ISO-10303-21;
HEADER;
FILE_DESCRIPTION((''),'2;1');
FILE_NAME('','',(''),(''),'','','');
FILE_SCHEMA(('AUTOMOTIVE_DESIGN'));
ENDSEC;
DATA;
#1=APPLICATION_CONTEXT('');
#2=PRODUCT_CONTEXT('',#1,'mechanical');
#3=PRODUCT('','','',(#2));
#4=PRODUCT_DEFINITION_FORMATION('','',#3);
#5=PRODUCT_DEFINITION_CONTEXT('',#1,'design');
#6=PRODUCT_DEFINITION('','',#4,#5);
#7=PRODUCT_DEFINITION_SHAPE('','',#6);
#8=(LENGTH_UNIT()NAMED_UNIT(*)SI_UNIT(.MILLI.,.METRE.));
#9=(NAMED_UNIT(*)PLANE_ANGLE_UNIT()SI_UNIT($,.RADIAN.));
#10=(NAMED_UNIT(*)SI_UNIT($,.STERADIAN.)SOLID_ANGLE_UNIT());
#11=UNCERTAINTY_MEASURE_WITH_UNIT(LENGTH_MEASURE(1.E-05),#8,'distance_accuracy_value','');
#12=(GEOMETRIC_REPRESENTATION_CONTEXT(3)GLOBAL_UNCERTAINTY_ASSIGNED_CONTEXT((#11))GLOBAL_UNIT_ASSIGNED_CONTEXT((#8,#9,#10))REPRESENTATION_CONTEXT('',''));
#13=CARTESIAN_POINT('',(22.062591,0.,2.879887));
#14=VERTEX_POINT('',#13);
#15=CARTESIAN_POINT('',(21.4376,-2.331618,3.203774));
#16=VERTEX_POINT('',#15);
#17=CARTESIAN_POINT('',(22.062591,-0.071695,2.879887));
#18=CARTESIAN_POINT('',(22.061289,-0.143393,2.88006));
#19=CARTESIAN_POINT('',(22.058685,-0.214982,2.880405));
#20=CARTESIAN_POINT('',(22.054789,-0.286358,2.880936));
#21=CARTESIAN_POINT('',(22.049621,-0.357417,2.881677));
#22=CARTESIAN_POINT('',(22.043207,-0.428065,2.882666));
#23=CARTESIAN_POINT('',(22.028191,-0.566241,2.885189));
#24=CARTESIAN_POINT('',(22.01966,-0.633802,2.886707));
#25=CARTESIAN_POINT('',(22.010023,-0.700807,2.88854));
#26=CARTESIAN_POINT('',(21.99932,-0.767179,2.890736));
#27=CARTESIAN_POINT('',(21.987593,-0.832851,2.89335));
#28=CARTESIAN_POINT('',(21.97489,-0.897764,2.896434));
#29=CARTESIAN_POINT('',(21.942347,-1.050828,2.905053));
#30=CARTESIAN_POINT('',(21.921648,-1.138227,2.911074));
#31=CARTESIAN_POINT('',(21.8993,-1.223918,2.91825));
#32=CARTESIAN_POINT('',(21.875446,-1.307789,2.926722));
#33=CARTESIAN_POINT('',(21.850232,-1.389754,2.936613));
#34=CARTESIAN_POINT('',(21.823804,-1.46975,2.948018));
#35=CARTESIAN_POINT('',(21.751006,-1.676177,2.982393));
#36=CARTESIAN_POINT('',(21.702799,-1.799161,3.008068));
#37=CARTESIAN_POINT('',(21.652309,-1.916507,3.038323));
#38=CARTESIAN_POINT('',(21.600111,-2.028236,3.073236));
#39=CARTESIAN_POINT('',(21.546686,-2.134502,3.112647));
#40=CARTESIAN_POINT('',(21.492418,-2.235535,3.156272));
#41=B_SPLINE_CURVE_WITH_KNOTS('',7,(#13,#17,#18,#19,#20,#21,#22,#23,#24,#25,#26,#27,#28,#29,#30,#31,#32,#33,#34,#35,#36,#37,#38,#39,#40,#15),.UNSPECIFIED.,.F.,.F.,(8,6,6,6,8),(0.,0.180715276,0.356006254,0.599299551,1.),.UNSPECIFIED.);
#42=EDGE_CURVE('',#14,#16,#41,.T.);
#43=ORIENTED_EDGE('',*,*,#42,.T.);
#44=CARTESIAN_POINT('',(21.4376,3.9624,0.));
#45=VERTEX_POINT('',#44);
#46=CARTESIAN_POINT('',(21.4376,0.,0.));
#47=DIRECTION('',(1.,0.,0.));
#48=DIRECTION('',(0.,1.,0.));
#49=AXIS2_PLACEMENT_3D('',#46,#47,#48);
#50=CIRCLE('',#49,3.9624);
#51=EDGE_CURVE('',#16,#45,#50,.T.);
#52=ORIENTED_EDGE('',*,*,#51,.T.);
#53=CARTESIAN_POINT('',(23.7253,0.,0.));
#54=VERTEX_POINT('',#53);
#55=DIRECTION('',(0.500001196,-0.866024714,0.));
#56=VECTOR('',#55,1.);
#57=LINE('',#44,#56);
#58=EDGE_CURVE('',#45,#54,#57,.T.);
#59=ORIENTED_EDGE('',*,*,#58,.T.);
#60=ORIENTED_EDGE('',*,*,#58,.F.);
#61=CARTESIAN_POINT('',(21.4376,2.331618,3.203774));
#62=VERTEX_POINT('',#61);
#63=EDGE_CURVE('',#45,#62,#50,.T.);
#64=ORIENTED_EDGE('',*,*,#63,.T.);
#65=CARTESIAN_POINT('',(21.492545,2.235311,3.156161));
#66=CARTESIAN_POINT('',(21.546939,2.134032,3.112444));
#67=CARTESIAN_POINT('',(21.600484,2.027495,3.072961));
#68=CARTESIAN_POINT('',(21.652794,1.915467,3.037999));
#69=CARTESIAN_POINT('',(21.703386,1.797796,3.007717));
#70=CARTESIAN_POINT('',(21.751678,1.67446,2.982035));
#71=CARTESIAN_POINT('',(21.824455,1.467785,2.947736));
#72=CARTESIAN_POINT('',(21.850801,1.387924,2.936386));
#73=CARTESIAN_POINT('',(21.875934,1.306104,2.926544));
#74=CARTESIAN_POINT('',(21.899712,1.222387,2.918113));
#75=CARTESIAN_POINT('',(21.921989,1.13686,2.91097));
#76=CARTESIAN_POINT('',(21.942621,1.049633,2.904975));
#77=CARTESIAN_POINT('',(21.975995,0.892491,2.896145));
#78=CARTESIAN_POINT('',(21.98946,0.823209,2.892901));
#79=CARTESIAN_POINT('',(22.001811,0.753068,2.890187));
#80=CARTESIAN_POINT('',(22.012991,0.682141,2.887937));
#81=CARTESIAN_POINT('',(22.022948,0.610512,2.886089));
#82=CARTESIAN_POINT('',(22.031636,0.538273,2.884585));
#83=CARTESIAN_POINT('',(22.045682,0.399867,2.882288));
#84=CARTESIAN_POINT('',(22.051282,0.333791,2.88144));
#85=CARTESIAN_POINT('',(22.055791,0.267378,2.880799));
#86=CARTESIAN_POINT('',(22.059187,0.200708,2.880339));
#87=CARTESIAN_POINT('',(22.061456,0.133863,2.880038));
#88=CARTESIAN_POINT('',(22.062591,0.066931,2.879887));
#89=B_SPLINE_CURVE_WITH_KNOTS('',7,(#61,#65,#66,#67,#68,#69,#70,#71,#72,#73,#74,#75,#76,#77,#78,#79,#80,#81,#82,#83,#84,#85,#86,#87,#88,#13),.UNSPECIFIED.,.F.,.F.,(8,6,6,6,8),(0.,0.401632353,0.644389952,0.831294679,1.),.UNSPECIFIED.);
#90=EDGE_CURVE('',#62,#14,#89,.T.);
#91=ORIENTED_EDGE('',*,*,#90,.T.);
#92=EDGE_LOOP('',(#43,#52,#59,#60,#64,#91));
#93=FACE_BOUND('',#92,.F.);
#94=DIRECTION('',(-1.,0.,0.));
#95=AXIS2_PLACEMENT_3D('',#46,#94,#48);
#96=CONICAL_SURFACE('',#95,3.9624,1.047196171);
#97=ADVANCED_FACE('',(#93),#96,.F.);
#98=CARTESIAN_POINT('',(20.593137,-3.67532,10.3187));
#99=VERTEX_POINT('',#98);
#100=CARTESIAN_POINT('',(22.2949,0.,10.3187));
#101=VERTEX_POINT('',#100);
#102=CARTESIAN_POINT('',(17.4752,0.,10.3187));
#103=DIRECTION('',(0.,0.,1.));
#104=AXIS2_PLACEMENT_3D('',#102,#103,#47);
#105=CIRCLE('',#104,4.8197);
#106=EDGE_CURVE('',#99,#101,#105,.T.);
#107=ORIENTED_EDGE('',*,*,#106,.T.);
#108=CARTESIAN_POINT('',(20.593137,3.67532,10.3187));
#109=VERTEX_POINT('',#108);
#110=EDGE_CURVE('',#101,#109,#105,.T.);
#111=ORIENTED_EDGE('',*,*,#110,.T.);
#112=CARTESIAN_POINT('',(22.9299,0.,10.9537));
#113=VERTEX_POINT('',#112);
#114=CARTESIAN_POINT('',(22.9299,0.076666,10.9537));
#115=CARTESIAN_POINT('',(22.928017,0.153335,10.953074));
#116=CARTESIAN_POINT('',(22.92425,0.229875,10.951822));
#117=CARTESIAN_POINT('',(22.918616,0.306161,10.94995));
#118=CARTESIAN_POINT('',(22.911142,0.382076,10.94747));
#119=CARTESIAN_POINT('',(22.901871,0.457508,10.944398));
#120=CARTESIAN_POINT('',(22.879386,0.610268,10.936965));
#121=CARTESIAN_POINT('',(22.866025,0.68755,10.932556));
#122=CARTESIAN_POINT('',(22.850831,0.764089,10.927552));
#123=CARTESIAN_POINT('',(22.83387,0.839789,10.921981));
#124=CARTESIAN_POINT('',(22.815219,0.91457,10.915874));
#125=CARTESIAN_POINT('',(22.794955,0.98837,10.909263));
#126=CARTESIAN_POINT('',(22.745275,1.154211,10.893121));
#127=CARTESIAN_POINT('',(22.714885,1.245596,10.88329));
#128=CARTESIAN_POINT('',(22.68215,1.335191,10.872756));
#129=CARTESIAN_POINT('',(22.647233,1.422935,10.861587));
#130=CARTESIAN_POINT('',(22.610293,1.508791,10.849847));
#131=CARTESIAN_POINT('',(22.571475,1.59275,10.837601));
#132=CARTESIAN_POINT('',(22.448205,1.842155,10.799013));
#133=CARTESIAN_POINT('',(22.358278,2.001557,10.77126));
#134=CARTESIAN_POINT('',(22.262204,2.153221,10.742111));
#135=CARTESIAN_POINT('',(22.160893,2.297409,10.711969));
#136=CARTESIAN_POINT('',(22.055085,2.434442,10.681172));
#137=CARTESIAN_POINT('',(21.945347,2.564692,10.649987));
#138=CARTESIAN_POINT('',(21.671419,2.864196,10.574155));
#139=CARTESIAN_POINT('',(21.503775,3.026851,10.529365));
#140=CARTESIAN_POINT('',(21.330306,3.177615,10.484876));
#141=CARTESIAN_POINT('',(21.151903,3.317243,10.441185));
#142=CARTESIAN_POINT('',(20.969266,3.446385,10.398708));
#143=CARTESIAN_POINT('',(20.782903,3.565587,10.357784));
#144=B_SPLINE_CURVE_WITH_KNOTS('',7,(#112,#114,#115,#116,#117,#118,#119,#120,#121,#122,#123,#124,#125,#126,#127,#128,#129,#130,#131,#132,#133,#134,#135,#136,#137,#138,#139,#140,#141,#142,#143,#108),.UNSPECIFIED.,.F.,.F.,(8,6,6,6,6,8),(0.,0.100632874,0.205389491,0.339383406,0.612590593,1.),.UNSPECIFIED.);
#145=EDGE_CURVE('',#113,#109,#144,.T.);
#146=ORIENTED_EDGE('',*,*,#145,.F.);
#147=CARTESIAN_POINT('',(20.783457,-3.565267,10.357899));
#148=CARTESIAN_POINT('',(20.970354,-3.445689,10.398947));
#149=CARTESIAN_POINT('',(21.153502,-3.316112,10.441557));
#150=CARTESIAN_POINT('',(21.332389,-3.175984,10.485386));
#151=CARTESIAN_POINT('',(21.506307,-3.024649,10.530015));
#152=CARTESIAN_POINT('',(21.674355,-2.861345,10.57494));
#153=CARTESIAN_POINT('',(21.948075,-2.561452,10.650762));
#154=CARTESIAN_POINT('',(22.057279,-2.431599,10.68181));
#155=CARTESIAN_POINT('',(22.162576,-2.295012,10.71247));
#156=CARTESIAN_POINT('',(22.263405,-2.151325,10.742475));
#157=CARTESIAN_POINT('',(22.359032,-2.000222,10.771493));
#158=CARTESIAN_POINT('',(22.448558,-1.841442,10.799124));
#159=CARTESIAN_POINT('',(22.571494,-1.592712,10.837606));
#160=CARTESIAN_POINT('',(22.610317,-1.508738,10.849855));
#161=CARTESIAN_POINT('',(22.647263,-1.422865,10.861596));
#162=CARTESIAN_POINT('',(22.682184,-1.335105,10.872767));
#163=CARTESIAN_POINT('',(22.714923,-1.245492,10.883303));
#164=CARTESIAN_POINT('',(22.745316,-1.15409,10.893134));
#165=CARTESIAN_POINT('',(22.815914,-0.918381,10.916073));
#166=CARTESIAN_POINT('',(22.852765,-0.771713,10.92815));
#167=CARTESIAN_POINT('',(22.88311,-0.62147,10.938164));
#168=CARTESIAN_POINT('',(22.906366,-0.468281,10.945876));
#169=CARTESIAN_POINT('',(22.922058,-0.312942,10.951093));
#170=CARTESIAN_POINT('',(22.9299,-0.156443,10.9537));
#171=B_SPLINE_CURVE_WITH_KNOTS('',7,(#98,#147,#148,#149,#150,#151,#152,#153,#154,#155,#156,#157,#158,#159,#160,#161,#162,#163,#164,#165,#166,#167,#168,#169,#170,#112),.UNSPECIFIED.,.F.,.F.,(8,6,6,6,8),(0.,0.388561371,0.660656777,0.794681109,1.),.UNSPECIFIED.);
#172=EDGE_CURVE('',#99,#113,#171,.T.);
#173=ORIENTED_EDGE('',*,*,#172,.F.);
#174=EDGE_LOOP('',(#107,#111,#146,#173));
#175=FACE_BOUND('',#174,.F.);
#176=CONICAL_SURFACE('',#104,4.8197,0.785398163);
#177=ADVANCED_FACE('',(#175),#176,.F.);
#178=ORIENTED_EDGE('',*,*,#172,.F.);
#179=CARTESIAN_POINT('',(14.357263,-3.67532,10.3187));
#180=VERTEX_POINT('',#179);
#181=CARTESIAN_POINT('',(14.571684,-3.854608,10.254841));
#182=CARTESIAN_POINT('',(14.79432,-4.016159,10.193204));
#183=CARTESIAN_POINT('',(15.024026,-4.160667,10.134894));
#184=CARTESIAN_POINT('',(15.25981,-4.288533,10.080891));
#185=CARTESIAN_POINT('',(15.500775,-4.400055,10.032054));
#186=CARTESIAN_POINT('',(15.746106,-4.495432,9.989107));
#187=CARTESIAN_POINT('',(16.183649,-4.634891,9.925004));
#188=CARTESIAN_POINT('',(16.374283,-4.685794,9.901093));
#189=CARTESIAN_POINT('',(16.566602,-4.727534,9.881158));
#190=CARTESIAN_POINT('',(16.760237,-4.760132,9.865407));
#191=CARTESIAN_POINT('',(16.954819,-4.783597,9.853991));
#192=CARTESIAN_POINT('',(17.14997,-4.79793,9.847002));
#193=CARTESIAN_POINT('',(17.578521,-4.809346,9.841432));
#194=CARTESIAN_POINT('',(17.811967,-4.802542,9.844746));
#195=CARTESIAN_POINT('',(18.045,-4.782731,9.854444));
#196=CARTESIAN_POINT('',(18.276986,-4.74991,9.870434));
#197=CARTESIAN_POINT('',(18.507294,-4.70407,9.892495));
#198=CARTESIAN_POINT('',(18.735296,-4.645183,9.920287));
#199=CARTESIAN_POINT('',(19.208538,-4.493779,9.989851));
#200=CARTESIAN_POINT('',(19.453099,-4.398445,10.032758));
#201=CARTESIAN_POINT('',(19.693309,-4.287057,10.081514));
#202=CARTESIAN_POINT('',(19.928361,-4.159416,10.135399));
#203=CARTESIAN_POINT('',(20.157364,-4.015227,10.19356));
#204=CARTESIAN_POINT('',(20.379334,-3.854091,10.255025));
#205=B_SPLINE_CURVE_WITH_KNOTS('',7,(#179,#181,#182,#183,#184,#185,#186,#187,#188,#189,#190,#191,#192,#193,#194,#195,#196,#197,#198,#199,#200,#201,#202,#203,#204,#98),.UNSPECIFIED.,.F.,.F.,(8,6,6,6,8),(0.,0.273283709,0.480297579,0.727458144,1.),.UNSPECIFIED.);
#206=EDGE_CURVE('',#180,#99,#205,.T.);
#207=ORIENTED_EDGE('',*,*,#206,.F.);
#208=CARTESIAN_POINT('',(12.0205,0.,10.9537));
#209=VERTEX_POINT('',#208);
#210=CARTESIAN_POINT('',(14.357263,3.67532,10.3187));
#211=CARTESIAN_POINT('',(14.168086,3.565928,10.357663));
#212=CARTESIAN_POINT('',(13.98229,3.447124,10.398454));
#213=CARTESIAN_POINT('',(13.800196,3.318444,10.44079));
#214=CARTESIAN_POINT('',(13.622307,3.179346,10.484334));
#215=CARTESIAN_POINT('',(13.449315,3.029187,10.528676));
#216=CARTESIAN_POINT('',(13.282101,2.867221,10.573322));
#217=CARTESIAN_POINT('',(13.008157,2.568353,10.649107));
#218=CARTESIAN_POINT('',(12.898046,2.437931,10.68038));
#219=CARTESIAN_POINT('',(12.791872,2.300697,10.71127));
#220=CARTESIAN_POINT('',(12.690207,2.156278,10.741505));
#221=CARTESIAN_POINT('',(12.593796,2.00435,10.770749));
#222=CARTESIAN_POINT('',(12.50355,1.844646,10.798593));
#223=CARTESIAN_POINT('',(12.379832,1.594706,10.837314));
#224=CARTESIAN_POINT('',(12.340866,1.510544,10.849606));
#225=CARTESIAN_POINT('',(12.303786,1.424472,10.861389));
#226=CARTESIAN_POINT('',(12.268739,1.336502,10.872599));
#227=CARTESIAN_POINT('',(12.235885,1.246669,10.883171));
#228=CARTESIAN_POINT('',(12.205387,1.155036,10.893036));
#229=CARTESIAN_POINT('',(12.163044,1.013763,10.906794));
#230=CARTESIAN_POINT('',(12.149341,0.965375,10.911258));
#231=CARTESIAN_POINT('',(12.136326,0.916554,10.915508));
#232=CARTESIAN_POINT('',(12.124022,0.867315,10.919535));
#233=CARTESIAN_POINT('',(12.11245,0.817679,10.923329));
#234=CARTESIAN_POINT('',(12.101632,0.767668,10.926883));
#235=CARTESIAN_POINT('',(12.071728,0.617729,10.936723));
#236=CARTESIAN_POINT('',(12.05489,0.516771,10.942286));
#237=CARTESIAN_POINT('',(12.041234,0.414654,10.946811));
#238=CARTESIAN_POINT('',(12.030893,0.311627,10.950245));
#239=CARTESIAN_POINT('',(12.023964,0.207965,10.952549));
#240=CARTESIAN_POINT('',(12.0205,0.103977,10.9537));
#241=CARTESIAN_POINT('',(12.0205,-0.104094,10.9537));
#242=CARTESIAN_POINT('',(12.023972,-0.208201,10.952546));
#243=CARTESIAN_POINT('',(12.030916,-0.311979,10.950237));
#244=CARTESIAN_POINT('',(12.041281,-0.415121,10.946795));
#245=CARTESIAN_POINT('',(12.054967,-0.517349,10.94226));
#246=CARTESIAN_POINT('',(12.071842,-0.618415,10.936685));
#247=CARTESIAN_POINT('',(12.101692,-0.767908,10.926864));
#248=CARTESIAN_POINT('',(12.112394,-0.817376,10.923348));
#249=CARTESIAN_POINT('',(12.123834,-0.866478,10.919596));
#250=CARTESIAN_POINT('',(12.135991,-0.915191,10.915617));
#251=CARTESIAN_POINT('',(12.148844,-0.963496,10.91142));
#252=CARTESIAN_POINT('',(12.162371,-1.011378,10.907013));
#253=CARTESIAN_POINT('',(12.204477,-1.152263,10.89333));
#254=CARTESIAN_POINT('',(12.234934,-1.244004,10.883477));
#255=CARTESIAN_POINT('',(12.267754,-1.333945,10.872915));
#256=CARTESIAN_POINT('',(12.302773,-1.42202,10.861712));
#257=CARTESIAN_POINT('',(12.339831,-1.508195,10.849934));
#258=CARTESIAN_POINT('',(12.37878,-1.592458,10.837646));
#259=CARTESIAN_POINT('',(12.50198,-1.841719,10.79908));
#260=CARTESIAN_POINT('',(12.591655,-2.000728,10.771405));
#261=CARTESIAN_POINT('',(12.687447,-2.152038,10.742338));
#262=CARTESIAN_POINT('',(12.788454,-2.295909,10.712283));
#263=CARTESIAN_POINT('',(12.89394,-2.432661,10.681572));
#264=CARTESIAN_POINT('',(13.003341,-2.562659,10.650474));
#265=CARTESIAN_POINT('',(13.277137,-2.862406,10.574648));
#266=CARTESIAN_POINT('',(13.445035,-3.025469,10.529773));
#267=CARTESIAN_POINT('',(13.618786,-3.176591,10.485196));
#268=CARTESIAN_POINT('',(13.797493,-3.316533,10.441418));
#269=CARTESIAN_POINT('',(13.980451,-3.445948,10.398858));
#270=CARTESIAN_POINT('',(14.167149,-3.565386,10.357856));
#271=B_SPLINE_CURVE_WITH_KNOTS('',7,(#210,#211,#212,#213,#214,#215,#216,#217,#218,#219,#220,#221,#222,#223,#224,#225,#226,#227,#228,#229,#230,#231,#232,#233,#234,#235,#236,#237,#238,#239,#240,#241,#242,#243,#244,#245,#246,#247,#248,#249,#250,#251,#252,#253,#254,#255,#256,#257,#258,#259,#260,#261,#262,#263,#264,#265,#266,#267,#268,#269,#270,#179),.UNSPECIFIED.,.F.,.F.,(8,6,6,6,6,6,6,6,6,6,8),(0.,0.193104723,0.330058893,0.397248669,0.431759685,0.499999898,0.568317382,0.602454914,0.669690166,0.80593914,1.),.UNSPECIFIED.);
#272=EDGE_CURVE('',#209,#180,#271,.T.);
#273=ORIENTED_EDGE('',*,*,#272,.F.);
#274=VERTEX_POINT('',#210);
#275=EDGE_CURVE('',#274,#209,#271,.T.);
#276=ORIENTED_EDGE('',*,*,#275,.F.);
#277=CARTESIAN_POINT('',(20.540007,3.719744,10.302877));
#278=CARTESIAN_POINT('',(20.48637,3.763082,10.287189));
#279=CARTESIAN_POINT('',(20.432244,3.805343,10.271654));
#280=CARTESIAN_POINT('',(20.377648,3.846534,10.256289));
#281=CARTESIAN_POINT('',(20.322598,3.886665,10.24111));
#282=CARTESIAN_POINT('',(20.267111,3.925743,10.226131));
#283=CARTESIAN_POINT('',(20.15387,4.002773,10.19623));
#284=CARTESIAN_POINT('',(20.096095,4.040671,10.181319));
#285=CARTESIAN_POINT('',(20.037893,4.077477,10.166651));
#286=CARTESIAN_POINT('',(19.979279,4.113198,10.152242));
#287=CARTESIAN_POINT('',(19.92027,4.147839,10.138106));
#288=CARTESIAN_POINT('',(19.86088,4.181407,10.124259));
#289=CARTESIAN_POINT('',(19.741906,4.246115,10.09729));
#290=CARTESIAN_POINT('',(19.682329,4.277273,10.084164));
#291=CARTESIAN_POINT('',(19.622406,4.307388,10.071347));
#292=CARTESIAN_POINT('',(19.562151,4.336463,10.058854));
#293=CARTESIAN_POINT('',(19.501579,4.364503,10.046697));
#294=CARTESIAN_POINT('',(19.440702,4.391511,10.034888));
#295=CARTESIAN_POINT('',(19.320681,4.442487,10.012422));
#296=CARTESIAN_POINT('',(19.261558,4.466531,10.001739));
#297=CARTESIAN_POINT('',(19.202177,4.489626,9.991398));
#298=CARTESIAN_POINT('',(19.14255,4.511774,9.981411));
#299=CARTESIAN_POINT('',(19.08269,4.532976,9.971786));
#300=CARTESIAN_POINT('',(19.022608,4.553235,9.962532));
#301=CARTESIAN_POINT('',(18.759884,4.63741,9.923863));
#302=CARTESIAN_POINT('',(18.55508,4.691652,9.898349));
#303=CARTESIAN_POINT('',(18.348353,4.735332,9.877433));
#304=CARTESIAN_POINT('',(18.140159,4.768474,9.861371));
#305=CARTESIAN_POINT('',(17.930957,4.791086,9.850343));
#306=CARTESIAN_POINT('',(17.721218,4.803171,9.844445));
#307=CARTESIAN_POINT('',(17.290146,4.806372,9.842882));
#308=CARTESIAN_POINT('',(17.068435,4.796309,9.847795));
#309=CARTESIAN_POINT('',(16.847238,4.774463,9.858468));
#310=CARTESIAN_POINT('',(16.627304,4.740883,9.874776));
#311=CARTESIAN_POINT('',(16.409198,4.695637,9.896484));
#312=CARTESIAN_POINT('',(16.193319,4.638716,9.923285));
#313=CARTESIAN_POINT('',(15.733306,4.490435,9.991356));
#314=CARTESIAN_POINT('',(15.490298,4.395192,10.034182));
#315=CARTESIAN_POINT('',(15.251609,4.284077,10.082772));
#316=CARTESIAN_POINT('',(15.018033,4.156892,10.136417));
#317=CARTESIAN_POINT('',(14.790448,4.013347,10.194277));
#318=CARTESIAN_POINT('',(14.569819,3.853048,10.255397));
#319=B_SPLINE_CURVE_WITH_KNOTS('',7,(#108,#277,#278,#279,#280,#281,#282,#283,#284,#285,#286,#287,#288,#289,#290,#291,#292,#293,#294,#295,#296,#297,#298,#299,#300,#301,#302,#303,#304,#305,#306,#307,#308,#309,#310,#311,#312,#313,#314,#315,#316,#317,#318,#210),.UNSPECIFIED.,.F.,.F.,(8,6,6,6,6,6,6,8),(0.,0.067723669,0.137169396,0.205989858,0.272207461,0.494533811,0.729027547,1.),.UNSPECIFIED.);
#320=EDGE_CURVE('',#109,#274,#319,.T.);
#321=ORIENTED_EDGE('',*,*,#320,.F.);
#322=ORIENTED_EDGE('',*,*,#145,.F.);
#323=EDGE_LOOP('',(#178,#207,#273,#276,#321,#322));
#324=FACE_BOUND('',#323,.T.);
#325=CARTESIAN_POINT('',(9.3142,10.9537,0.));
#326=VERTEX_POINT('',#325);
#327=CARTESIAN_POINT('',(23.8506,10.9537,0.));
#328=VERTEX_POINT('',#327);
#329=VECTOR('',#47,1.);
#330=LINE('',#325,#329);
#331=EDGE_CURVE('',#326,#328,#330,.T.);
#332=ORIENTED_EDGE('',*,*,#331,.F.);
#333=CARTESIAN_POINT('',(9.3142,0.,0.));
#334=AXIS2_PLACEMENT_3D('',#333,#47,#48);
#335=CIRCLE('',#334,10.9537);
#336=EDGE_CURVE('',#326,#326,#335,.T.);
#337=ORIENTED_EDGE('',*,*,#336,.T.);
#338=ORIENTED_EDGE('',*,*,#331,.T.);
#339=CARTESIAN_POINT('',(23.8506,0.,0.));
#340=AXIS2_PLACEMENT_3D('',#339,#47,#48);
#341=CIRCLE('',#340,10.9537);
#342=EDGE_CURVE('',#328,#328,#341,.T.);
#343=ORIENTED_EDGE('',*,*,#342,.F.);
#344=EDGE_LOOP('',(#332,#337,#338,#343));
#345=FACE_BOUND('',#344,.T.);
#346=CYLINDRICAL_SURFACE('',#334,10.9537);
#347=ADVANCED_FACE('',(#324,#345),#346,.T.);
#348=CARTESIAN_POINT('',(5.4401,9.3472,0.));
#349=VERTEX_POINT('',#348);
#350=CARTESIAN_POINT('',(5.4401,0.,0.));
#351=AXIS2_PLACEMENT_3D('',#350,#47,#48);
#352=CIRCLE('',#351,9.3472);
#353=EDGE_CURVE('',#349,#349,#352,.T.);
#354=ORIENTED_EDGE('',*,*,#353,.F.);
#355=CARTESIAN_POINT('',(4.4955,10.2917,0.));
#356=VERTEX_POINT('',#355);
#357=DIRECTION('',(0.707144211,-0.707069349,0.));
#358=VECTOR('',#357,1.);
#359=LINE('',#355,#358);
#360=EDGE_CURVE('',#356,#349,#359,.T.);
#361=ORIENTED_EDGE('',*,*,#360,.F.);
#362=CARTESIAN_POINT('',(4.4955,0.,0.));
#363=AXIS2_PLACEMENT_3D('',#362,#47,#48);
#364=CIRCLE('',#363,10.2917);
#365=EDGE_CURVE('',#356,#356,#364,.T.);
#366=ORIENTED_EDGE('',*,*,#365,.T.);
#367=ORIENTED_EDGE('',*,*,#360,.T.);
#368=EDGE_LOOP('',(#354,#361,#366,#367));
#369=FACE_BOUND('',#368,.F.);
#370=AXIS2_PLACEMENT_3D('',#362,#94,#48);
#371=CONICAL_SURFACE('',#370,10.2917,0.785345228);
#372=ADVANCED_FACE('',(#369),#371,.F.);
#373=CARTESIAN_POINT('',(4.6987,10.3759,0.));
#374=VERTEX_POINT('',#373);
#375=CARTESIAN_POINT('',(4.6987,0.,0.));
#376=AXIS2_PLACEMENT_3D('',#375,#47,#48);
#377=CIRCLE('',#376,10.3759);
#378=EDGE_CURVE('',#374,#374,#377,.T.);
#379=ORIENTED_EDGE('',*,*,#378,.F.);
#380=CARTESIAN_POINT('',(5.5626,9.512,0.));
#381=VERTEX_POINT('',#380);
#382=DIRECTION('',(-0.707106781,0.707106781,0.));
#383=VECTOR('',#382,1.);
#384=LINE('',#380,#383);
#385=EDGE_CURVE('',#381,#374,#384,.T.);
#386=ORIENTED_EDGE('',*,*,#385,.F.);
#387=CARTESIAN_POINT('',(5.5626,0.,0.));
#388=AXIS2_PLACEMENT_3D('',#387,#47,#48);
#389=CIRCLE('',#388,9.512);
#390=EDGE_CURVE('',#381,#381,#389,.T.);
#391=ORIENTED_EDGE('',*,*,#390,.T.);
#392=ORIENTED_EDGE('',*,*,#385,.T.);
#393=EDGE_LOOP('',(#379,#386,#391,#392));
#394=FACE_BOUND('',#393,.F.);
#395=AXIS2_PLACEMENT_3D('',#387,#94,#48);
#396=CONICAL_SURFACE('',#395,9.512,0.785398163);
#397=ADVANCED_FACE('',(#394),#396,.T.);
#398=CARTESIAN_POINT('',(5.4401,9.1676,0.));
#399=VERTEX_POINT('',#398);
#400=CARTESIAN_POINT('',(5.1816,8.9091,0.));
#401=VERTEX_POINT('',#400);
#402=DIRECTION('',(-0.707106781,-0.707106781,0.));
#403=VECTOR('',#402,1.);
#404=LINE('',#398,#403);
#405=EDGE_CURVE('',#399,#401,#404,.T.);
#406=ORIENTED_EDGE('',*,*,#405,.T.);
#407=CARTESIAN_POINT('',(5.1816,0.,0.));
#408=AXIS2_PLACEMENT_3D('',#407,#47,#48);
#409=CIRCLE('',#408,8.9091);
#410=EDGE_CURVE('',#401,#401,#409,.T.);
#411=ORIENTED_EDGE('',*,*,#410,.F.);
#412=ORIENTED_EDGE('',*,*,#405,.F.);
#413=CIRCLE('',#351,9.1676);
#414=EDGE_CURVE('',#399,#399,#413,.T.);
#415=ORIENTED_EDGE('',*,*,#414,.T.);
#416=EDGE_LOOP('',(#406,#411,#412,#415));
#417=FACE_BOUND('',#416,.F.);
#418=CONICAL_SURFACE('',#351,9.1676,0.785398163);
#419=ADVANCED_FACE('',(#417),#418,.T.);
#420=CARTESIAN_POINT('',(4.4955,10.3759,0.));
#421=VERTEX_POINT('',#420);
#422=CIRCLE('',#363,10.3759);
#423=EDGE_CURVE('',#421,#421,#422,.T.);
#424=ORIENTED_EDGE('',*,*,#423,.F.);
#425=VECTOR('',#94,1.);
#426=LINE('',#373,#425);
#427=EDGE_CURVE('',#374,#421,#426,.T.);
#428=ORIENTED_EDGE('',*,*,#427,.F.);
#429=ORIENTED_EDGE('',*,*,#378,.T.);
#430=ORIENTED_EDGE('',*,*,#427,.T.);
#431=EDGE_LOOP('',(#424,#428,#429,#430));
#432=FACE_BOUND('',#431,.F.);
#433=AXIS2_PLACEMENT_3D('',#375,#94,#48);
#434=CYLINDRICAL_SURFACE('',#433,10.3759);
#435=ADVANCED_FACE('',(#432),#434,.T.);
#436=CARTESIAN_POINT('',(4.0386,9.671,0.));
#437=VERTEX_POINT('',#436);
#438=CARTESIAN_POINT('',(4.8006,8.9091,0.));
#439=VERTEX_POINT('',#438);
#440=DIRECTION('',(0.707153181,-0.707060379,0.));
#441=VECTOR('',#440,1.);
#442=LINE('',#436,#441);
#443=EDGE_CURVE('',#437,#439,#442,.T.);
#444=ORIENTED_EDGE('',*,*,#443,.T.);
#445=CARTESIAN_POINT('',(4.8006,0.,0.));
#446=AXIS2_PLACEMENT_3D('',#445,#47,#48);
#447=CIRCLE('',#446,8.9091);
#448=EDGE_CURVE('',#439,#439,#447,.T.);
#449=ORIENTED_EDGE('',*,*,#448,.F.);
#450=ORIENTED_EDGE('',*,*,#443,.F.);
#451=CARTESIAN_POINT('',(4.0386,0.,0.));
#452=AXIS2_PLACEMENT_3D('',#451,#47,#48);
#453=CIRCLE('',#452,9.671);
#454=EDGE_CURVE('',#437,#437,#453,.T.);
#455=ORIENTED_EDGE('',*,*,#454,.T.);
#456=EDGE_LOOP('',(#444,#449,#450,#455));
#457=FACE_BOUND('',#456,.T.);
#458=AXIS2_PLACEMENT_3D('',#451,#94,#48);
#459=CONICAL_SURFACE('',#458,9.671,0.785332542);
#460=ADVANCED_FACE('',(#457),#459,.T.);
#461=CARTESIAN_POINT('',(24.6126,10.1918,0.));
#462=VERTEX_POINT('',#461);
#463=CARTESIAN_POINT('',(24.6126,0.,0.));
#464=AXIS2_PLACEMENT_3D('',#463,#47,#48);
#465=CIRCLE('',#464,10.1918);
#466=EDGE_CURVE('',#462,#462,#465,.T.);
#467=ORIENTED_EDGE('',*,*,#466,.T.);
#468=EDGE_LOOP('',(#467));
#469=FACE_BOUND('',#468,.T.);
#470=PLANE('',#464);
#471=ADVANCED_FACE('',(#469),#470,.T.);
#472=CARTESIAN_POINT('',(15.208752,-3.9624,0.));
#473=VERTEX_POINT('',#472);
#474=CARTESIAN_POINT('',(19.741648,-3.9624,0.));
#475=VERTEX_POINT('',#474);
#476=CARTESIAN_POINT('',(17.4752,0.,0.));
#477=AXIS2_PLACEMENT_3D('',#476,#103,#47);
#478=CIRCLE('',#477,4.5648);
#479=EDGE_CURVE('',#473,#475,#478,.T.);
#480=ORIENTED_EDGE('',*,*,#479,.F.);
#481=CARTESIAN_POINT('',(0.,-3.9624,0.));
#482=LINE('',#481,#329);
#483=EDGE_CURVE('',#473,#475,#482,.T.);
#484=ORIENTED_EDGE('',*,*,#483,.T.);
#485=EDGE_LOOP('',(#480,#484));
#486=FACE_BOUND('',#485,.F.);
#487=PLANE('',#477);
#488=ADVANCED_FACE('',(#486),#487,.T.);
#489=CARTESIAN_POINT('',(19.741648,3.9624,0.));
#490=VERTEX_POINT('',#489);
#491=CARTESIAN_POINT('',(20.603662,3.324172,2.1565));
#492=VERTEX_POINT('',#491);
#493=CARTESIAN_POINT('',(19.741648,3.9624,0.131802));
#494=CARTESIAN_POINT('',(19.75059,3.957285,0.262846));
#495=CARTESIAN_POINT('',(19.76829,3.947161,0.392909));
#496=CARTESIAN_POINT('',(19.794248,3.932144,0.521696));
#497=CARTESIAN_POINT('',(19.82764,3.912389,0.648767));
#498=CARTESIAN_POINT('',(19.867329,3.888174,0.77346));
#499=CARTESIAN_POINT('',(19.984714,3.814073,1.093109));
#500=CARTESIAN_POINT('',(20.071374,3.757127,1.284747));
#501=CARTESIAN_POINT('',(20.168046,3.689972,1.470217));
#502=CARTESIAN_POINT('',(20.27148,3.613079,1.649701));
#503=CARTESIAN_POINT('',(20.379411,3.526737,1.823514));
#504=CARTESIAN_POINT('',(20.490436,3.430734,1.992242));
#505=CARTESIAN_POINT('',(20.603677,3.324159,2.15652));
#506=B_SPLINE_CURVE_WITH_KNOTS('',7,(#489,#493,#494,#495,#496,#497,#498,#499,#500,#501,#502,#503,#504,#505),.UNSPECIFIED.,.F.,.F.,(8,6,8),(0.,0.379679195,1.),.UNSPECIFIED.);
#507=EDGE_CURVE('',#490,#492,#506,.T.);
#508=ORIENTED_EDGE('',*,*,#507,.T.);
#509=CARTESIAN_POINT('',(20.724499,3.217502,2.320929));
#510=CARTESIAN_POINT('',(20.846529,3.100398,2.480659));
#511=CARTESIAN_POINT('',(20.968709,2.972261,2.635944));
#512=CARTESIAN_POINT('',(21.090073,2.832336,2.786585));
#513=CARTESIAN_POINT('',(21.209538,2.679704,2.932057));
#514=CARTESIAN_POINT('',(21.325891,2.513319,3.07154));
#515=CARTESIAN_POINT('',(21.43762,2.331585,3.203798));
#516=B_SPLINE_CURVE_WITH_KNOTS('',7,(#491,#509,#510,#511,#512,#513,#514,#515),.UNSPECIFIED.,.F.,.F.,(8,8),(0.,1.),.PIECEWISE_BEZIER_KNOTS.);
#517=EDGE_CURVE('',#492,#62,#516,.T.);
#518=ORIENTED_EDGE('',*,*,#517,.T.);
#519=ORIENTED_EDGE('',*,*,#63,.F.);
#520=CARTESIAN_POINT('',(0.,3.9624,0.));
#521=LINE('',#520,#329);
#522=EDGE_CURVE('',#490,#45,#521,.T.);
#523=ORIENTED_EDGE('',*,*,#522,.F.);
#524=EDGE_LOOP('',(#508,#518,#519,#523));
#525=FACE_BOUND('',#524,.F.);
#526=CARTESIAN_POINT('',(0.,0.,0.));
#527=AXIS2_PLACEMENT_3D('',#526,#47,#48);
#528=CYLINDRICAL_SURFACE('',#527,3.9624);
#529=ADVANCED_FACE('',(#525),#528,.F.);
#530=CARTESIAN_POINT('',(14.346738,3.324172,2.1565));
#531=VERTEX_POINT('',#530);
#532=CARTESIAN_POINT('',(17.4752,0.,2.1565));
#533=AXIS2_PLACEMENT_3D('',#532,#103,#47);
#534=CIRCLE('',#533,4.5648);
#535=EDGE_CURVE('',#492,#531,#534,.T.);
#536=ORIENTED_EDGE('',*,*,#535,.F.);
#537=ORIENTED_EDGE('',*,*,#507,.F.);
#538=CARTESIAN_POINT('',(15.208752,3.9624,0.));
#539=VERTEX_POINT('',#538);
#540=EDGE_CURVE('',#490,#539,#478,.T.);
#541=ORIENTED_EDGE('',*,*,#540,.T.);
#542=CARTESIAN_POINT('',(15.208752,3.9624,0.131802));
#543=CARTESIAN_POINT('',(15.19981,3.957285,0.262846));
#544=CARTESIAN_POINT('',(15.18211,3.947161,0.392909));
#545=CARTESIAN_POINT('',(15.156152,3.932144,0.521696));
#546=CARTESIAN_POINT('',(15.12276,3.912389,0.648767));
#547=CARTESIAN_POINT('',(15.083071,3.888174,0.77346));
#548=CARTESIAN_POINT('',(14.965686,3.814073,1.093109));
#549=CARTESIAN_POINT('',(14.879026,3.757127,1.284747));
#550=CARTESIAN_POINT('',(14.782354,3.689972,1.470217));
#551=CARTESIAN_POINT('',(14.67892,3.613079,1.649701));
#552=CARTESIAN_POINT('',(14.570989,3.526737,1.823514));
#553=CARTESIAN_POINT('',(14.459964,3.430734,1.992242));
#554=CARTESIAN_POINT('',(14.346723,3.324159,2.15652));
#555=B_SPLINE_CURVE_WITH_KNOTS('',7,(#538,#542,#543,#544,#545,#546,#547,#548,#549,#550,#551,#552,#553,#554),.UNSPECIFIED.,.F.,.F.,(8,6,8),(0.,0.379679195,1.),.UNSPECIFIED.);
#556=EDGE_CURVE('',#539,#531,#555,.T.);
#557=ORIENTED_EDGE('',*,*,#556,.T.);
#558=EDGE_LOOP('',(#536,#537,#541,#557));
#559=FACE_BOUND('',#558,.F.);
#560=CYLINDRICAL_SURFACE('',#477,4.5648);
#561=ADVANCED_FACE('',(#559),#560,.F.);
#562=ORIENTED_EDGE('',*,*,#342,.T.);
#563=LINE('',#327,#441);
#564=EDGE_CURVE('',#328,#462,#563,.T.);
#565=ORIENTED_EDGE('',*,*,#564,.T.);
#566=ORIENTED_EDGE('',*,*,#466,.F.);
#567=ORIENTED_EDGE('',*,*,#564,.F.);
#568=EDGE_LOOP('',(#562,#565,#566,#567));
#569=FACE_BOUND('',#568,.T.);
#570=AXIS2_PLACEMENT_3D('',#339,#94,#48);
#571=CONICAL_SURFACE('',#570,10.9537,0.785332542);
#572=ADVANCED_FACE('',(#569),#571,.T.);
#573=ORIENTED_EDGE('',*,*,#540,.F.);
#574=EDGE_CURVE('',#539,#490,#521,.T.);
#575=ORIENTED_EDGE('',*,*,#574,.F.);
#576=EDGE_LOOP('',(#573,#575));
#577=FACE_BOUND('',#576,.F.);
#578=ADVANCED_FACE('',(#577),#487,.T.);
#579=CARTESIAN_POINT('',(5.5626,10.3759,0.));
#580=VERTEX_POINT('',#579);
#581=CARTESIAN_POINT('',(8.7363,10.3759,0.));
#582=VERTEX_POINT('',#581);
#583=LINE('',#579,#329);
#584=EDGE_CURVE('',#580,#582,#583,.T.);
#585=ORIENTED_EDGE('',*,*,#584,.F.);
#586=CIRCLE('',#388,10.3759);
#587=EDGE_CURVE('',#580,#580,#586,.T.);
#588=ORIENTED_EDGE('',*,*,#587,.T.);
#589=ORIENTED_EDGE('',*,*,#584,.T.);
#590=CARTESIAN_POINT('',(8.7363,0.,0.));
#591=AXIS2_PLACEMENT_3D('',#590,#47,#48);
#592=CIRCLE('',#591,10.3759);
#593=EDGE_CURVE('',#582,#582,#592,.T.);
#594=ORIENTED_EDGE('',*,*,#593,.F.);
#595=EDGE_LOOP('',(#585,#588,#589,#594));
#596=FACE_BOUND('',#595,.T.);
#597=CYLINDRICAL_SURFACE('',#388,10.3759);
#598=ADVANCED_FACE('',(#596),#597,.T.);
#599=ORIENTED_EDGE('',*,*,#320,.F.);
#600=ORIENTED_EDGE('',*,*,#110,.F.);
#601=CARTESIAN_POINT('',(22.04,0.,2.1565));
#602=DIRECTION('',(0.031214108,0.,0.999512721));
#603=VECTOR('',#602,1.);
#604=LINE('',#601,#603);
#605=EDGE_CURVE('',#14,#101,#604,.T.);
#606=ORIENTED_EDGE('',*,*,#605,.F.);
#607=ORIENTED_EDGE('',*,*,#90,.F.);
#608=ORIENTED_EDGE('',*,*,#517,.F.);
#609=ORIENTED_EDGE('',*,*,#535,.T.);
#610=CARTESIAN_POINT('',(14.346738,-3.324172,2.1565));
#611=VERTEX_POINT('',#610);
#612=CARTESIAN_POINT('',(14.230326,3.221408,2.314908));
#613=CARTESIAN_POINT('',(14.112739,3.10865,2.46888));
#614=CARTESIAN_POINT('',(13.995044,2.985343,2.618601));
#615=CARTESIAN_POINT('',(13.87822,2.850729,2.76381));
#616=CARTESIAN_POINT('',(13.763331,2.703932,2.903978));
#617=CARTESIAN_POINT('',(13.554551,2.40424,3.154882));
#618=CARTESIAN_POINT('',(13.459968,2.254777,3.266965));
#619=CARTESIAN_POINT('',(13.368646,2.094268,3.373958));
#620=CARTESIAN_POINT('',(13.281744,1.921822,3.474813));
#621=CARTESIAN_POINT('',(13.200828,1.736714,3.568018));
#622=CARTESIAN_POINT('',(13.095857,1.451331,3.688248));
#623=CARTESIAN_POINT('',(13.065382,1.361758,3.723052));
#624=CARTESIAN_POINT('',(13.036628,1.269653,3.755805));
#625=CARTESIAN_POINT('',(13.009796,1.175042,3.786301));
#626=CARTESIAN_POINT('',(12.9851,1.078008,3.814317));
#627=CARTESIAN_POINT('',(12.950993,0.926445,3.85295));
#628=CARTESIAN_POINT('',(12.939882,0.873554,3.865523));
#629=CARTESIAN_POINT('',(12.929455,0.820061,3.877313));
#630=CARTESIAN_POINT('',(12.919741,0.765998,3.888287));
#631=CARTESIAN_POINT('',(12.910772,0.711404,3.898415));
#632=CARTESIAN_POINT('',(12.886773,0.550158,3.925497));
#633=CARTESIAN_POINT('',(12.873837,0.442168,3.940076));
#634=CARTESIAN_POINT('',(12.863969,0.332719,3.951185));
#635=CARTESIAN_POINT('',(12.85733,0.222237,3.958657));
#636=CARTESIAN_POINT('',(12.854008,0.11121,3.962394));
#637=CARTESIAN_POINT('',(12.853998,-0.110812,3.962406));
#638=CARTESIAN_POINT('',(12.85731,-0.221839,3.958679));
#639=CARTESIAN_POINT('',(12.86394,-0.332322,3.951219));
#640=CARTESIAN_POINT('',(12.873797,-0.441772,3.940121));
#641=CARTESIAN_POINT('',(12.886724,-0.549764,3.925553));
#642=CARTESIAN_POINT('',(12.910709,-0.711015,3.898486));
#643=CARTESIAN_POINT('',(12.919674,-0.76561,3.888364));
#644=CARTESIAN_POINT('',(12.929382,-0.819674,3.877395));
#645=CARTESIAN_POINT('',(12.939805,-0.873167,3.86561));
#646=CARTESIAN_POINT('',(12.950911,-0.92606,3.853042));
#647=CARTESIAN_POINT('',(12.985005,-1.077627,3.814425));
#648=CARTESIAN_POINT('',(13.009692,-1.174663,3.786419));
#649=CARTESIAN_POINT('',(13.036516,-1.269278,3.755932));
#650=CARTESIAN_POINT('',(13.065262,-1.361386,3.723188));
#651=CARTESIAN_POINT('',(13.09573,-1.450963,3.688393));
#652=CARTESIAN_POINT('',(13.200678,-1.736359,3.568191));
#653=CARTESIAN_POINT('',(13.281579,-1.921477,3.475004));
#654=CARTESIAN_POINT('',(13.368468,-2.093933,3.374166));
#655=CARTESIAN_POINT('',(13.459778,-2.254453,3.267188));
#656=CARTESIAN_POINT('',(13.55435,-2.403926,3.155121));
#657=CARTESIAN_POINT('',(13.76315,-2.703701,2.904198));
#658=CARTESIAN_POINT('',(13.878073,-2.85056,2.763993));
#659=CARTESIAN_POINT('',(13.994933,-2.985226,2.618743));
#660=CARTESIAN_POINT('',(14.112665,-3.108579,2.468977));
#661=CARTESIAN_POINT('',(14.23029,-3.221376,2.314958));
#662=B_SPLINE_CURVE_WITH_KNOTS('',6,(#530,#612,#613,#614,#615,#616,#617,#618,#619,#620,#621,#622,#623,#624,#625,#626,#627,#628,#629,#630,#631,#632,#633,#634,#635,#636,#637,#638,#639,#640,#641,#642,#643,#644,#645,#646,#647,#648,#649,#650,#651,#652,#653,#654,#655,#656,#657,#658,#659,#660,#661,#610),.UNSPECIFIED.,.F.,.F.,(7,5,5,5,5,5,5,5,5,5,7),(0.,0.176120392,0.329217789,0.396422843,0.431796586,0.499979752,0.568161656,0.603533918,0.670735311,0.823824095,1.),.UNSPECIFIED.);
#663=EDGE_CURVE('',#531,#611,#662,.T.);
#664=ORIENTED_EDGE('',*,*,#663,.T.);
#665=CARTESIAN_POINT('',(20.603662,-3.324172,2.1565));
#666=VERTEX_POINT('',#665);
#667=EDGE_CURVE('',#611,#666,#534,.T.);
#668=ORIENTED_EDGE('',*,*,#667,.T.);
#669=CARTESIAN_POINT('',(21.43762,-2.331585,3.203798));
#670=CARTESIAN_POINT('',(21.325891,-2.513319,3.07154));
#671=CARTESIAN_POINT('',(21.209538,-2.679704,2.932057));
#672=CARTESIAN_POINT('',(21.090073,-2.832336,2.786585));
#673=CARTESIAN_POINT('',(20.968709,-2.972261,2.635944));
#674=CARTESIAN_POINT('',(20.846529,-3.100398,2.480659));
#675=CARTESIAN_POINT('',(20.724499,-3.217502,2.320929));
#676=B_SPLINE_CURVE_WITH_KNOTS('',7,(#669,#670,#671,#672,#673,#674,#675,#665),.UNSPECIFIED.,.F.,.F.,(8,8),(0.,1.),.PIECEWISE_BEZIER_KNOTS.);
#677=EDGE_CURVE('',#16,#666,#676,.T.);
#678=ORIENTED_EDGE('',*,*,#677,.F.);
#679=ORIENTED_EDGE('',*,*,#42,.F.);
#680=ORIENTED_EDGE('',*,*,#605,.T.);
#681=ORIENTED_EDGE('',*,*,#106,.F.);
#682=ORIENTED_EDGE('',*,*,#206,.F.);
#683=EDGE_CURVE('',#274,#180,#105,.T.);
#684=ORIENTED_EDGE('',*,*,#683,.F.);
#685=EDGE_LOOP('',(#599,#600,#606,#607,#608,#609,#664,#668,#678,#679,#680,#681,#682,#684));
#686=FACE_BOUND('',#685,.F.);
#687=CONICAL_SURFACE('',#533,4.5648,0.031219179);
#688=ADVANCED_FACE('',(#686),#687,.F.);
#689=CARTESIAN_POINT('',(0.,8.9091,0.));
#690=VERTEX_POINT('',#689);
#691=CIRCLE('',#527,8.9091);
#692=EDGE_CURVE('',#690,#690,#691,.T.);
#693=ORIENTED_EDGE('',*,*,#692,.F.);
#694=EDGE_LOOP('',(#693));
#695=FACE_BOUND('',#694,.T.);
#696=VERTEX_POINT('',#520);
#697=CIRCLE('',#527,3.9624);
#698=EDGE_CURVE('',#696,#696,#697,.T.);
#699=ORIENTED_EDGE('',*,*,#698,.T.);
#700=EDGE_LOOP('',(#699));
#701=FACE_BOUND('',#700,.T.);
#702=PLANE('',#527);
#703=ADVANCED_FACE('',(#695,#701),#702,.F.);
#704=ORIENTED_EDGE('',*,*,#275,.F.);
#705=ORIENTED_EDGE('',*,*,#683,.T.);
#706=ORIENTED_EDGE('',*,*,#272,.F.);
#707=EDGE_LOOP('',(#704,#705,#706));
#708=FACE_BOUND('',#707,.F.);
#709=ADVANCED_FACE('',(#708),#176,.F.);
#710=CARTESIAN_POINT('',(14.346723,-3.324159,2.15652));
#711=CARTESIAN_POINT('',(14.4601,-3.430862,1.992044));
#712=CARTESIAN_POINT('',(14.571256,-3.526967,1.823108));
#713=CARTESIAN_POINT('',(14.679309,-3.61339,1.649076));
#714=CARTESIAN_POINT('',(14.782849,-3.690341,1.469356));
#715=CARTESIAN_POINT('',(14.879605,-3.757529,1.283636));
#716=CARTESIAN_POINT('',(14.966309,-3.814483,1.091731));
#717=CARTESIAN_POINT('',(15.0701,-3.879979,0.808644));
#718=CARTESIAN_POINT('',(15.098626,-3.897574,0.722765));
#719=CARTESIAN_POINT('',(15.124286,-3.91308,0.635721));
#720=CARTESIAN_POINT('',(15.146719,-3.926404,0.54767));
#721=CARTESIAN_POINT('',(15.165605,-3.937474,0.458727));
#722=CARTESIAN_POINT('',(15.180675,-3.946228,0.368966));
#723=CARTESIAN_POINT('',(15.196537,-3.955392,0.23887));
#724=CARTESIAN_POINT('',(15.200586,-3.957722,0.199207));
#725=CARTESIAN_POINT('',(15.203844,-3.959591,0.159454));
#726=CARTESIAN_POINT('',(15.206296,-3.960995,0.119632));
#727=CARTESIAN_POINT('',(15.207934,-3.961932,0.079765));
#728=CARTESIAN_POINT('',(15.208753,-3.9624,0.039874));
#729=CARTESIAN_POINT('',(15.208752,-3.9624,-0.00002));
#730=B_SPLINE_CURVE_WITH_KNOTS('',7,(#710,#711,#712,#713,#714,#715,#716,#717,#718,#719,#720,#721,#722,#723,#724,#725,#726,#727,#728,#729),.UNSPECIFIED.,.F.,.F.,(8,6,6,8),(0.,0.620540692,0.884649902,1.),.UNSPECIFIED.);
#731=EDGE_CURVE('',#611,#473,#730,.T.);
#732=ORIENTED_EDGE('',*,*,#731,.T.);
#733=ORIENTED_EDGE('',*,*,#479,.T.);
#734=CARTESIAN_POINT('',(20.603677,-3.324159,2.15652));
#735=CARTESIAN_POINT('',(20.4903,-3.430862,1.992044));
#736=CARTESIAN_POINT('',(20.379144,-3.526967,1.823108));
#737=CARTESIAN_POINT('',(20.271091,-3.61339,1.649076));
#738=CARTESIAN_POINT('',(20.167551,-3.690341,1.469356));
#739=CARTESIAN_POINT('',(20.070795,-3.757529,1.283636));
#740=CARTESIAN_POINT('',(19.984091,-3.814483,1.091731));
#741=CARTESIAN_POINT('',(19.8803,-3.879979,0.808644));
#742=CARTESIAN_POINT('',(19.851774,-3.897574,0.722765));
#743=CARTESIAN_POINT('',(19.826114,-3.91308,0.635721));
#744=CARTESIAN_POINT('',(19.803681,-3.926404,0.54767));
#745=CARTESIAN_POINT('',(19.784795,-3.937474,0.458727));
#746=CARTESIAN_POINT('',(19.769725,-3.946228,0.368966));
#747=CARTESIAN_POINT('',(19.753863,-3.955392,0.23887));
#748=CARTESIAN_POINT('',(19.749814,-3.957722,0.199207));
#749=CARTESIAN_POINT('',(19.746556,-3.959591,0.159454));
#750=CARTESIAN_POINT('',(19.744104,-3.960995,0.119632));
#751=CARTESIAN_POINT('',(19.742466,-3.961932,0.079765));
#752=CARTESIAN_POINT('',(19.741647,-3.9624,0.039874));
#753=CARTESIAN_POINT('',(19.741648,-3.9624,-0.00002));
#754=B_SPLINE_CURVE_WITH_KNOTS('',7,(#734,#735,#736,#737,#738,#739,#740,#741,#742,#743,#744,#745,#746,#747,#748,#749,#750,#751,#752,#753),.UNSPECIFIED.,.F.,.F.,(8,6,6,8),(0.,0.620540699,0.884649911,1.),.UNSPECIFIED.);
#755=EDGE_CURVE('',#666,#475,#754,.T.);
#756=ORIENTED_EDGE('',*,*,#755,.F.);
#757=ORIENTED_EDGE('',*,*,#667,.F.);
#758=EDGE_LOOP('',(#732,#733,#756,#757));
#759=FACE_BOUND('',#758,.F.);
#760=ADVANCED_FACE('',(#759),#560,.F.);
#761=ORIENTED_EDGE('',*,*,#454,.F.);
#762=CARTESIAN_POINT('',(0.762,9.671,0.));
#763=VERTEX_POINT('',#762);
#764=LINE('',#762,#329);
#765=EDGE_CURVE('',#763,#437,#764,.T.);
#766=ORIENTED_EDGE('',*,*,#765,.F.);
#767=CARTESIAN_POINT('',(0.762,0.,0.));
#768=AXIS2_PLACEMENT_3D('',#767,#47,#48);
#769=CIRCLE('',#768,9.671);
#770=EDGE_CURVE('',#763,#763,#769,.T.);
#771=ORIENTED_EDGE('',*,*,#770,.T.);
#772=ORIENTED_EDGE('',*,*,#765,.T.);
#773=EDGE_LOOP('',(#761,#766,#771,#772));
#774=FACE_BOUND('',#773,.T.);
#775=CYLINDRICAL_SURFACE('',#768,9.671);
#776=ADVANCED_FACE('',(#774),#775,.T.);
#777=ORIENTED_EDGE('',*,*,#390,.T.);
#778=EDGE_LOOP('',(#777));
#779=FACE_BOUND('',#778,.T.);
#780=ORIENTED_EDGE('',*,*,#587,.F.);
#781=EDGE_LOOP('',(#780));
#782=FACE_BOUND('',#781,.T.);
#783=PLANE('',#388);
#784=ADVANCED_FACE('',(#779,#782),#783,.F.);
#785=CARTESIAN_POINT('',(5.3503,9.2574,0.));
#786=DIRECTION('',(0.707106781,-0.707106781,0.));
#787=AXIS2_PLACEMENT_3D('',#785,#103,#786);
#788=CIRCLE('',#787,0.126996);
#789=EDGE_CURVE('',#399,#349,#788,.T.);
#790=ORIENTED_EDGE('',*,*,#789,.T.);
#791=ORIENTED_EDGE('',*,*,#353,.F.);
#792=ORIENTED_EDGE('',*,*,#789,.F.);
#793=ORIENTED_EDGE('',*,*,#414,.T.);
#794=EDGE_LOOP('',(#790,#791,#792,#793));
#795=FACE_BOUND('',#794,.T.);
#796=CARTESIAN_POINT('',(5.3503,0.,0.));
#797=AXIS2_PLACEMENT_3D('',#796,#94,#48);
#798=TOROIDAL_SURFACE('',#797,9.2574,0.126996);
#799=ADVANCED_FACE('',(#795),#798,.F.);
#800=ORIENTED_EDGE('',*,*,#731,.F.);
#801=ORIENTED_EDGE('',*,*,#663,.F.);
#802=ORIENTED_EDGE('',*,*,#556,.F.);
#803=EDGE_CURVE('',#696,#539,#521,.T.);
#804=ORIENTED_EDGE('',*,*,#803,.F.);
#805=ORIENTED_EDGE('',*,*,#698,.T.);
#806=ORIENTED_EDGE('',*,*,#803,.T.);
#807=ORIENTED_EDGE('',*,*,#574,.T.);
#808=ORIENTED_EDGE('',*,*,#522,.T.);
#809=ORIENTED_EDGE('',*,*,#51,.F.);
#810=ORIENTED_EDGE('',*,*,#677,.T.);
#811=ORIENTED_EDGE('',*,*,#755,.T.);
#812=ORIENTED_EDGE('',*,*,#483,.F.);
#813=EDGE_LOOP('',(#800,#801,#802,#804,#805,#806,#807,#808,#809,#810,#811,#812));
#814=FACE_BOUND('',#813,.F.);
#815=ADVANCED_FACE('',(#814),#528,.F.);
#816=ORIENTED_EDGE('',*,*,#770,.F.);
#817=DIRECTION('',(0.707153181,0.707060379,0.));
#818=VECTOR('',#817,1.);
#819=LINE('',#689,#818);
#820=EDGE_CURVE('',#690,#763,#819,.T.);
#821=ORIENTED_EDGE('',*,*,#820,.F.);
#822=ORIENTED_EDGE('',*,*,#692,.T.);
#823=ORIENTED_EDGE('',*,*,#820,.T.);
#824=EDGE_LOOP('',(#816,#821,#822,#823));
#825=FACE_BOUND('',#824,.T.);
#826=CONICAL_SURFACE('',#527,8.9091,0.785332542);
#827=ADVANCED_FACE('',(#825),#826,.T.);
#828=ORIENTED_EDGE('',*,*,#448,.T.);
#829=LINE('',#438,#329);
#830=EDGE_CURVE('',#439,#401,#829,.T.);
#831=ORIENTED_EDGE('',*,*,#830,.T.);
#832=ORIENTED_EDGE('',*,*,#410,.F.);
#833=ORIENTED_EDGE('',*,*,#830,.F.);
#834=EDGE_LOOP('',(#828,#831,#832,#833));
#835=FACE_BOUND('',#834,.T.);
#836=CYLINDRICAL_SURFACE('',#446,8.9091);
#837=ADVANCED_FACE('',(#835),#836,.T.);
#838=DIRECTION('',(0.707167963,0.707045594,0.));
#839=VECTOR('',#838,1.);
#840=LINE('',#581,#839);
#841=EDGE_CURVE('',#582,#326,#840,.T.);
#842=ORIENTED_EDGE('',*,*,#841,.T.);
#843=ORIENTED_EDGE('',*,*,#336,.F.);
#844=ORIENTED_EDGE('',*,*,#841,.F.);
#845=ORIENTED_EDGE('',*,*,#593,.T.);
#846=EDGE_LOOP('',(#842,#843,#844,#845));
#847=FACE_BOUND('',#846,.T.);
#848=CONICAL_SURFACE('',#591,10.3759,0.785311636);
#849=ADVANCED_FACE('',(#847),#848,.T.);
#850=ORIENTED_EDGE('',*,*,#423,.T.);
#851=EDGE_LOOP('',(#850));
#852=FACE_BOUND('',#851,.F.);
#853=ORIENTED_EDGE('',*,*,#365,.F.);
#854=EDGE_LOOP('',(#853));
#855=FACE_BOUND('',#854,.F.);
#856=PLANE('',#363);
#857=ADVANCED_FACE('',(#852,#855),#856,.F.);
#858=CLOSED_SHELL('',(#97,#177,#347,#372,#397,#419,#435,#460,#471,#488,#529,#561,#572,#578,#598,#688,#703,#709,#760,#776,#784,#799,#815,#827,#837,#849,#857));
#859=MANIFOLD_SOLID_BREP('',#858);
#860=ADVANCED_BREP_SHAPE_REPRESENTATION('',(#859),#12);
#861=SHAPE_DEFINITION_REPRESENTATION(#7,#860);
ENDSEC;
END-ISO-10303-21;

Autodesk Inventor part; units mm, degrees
sketch "Sketch_8" plane through (0, 0, 0) normal (0, 0, 1) x (1, 0, 0)
  line L0 (24.6126, 0) -> (0, 0)
  line L1 (0, 0) -> (0, 8.9091)
  line L2 (0, 8.9091) -> (0.762, 9.671)
  line L3 (0.762, 9.671) -> (4.0386, 9.671)
  line L4 (4.0386, 9.671) -> (4.8006, 8.9091)
  line L5 (4.8006, 8.9091) -> (5.5626, 8.9091)
  line L6 (5.5626, 8.9091) -> (5.5626, 10.3759)
  line L7 (5.5626, 10.3759) -> (8.7363, 10.3759)
  line L8 (8.7363, 10.3759) -> (9.3142, 10.9537)
  line L9 (9.3142, 10.9537) -> (23.8506, 10.9537)
  line L10 (23.8506, 10.9537) -> (24.6126, 10.1918)
  line L11 (24.6126, 10.1918) -> (24.6126, 0)
  line L12 (24.6126, 0) -> (0, 0)
revolve "Revolution1" add sketch "Sketch_8" angle 360 about axis through (24.6126, 0, 0) along (1, 0, 0)
sketch "Sketch_13" plane through (0, 0, 0) normal (0, 0, 1) x (1, 0, 0)
  line L0 (23.7253, 0) -> (0, 0)
  line L1 (0, 0) -> (0, 3.9624)
  line L2 (0, 3.9624) -> (21.4376, 3.9624)
  line L3 (21.4376, 3.9624) -> (23.7253, 0)
  line L4 (23.7253, 0) -> (0, 0)
revolve "Revolution2" cut sketch "Sketch_13" angle 360 about axis through (23.7253, 0, 0) along (1, 0, 0)
sketch "Sketch_19" plane through (0, 0, 0) normal (0, 1, 0) x (-1, 0, 0)
  line L0 (-17.4752, 10.9537) -> (-17.4752, 0)
  line L1 (-17.4752, 0) -> (-22.04, 0)
  line L2 (-22.04, 0) -> (-22.04, 2.1565)
  line L3 (-22.04, 2.1565) -> (-22.2949, 10.3187)
  line L4 (-22.2949, 10.3187) -> (-22.9299, 10.9537)
  line L5 (-22.9299, 10.9537) -> (-17.4752, 10.9537)
  line L6 (-17.4752, 10.9537) -> (-17.4752, 0)
revolve "Revolution3" cut sketch "Sketch_19" angle 360 about axis through (17.4752, 0, 10.9537) along (0, 0, 1)
sketch "Sketch_24" plane through (0, 0, 0) normal (0, 0, 1) x (1, 0, 0)
  line L0 (5.5626, 0) -> (4.8006, 0)
  line L1 (4.4955, 10.2917) -> (5.4401, 9.3472)
  arc A0 (5.4401, 9.1676) -> (5.4401, 9.3472) centre (5.3503, 9.2574) ccw
  line L2 (5.4401, 9.1676) -> (5.1816, 8.9091)
  line L3 (5.1816, 8.9091) -> (4.8006, 8.9091)
  line L4 (4.8006, 8.9091) -> (4.8006, 8.655)
  line L5 (4.8006, 8.655) -> (5.5626, 8.655)
  line L6 (5.5626, 8.655) -> (5.5626, 9.512)
  line L7 (5.5626, 9.512) -> (4.6987, 10.3759)
  line L8 (4.6987, 10.3759) -> (4.4955, 10.3759)
  line L9 (4.4955, 10.3759) -> (4.4955, 10.2917)
revolve "Revolution4" add sketch "Sketch_24" angle 360 about axis through (5.5626, 0, 0) along (1, 0, 0)
ref_plane "to_tube_XY" through (4.8006, 0, 0) normal (1, 0, 0) x (0, 0, -1)
ref_plane "to_tube_YZ" through (4.8006, 0, 0) normal (0, 0, -1) x (0, 1, 0)
ref_plane "to_tube_ZX" through (4.8006, 0, 0) normal (0, 1, 0) x (1, 0, 0)
ref_plane "to_nut_XY" through (27.0002, 0, 0) normal (1, 0, 0) x (0, 0, -1)
ref_plane "to_nut_YZ" through (27.0002, 0, 0) normal (0, 0, -1) x (0, 1, 0)
ref_plane "to_nut_ZX" through (27.0002, 0, 0) normal (0, 1, 0) x (1, 0, 0)
ref_plane "lovra1_XY" through (35.7124, 0, 0) normal (1, 0, 0) x (0, 0, -1)
ref_plane "lovra1_YZ" through (35.7124, 0, 0) normal (0, 0, -1) x (0, 1, 0)
ref_plane "lovra1_ZX" through (35.7124, 0, 0) normal (0, 1, 0) x (1, 0, 0)
ref_plane "lovra2_XY" through (35.7124, 7.874, 0) normal (1, 0, 0) x (0, 0, -1)
ref_plane "lovra2_YZ" through (35.7124, 7.874, 0) normal (0, 0, -1) x (0, 1, 0)
ref_plane "lovra2_ZX" through (35.7124, 7.874, 0) normal (0, 1, 0) x (1, 0, 0)
ref_plane "lovra3_XY" through (35.7124, -7.874, 0) normal (1, 0, 0) x (0, 0, -1)
ref_plane "lovra3_YZ" through (35.7124, -7.874, 0) normal (0, 0, -1) x (0, 1, 0)
ref_plane "lovra3_ZX" through (35.7124, -7.874, 0) normal (0, 1, 0) x (1, 0, 0)
ref_plane "olen_XY" through (24.6126, 0, 0) normal (1, 0, 0) x (0, 0, -1)
ref_plane "olen_YZ" through (24.6126, 0, 0) normal (0, 0, -1) x (0, 1, 0)
ref_plane "olen_ZX" through (24.6126, 0, 0) normal (0, 1, 0) x (1, 0, 0)
ref_plane "port2_XY" through (24.6126, 0, 0) normal (1, 0, 0) x (0, 0, -1)
ref_plane "port2_YZ" through (24.6126, 0, 0) normal (0, 0, -1) x (0, 1, 0)
ref_plane "port2_ZX" through (24.6126, 0, 0) normal (0, 1, 0) x (1, 0, 0)
ref_plane "port_XY" through (17.4752, 0, 0) normal (0, 0, 1) x (1, 0, 0)
ref_plane "port_YZ" through (17.4752, 0, 0) normal (1, 0, 0) x (0, 1, 0)
ref_plane "port_ZX" through (17.4752, 0, 0) normal (0, 1, 0) x (0, 0, 1)
ref_plane "lovra21_XY" through (0, 0, 5.2705) normal (1, 0, 0) x (0, 0, -1)
ref_plane "lovra21_YZ" through (0, 0, 5.2705) normal (0, 0, -1) x (0, 1, 0)
ref_plane "lovra21_ZX" through (0, 0, 5.2705) normal (0, 1, 0) x (1, 0, 0)
ref_plane "lovra22_XY" through (0, 0, -5.2705) normal (1, 0, 0) x (0, 0, -1)
ref_plane "lovra22_YZ" through (0, 0, -5.2705) normal (0, 0, -1) x (0, 1, 0)
ref_plane "lovra22_ZX" through (0, 0, -5.2705) normal (0, 1, 0) x (1, 0, 0)
ref_plane "to_screw_XY" through (17.4752, 2.032, -6.0452) normal (0, 1, 0) x (1, 0, 0)
ref_plane "to_screw_YZ" through (17.4752, 2.032, -6.0452) normal (1, 0, 0) x (0, 0, -1)
ref_plane "to_screw_ZX" through (17.4752, 2.032, -6.0452) normal (0, 0, -1) x (0, 1, 0)
ref_plane "to_mounting_bracket_XY" through (24.6126, 0, 0) normal (1, 0, 0) x (0, 0, -1)
ref_plane "to_mounting_bracket_YZ" through (24.6126, 0, 0) normal (0, 0, -1) x (0, 1, 0)
ref_plane "to_mounting_bracket_ZX" through (24.6126, 0, 0) normal (0, 1, 0) x (1, 0, 0)
properties part number "04PQ0000_rear_head"
